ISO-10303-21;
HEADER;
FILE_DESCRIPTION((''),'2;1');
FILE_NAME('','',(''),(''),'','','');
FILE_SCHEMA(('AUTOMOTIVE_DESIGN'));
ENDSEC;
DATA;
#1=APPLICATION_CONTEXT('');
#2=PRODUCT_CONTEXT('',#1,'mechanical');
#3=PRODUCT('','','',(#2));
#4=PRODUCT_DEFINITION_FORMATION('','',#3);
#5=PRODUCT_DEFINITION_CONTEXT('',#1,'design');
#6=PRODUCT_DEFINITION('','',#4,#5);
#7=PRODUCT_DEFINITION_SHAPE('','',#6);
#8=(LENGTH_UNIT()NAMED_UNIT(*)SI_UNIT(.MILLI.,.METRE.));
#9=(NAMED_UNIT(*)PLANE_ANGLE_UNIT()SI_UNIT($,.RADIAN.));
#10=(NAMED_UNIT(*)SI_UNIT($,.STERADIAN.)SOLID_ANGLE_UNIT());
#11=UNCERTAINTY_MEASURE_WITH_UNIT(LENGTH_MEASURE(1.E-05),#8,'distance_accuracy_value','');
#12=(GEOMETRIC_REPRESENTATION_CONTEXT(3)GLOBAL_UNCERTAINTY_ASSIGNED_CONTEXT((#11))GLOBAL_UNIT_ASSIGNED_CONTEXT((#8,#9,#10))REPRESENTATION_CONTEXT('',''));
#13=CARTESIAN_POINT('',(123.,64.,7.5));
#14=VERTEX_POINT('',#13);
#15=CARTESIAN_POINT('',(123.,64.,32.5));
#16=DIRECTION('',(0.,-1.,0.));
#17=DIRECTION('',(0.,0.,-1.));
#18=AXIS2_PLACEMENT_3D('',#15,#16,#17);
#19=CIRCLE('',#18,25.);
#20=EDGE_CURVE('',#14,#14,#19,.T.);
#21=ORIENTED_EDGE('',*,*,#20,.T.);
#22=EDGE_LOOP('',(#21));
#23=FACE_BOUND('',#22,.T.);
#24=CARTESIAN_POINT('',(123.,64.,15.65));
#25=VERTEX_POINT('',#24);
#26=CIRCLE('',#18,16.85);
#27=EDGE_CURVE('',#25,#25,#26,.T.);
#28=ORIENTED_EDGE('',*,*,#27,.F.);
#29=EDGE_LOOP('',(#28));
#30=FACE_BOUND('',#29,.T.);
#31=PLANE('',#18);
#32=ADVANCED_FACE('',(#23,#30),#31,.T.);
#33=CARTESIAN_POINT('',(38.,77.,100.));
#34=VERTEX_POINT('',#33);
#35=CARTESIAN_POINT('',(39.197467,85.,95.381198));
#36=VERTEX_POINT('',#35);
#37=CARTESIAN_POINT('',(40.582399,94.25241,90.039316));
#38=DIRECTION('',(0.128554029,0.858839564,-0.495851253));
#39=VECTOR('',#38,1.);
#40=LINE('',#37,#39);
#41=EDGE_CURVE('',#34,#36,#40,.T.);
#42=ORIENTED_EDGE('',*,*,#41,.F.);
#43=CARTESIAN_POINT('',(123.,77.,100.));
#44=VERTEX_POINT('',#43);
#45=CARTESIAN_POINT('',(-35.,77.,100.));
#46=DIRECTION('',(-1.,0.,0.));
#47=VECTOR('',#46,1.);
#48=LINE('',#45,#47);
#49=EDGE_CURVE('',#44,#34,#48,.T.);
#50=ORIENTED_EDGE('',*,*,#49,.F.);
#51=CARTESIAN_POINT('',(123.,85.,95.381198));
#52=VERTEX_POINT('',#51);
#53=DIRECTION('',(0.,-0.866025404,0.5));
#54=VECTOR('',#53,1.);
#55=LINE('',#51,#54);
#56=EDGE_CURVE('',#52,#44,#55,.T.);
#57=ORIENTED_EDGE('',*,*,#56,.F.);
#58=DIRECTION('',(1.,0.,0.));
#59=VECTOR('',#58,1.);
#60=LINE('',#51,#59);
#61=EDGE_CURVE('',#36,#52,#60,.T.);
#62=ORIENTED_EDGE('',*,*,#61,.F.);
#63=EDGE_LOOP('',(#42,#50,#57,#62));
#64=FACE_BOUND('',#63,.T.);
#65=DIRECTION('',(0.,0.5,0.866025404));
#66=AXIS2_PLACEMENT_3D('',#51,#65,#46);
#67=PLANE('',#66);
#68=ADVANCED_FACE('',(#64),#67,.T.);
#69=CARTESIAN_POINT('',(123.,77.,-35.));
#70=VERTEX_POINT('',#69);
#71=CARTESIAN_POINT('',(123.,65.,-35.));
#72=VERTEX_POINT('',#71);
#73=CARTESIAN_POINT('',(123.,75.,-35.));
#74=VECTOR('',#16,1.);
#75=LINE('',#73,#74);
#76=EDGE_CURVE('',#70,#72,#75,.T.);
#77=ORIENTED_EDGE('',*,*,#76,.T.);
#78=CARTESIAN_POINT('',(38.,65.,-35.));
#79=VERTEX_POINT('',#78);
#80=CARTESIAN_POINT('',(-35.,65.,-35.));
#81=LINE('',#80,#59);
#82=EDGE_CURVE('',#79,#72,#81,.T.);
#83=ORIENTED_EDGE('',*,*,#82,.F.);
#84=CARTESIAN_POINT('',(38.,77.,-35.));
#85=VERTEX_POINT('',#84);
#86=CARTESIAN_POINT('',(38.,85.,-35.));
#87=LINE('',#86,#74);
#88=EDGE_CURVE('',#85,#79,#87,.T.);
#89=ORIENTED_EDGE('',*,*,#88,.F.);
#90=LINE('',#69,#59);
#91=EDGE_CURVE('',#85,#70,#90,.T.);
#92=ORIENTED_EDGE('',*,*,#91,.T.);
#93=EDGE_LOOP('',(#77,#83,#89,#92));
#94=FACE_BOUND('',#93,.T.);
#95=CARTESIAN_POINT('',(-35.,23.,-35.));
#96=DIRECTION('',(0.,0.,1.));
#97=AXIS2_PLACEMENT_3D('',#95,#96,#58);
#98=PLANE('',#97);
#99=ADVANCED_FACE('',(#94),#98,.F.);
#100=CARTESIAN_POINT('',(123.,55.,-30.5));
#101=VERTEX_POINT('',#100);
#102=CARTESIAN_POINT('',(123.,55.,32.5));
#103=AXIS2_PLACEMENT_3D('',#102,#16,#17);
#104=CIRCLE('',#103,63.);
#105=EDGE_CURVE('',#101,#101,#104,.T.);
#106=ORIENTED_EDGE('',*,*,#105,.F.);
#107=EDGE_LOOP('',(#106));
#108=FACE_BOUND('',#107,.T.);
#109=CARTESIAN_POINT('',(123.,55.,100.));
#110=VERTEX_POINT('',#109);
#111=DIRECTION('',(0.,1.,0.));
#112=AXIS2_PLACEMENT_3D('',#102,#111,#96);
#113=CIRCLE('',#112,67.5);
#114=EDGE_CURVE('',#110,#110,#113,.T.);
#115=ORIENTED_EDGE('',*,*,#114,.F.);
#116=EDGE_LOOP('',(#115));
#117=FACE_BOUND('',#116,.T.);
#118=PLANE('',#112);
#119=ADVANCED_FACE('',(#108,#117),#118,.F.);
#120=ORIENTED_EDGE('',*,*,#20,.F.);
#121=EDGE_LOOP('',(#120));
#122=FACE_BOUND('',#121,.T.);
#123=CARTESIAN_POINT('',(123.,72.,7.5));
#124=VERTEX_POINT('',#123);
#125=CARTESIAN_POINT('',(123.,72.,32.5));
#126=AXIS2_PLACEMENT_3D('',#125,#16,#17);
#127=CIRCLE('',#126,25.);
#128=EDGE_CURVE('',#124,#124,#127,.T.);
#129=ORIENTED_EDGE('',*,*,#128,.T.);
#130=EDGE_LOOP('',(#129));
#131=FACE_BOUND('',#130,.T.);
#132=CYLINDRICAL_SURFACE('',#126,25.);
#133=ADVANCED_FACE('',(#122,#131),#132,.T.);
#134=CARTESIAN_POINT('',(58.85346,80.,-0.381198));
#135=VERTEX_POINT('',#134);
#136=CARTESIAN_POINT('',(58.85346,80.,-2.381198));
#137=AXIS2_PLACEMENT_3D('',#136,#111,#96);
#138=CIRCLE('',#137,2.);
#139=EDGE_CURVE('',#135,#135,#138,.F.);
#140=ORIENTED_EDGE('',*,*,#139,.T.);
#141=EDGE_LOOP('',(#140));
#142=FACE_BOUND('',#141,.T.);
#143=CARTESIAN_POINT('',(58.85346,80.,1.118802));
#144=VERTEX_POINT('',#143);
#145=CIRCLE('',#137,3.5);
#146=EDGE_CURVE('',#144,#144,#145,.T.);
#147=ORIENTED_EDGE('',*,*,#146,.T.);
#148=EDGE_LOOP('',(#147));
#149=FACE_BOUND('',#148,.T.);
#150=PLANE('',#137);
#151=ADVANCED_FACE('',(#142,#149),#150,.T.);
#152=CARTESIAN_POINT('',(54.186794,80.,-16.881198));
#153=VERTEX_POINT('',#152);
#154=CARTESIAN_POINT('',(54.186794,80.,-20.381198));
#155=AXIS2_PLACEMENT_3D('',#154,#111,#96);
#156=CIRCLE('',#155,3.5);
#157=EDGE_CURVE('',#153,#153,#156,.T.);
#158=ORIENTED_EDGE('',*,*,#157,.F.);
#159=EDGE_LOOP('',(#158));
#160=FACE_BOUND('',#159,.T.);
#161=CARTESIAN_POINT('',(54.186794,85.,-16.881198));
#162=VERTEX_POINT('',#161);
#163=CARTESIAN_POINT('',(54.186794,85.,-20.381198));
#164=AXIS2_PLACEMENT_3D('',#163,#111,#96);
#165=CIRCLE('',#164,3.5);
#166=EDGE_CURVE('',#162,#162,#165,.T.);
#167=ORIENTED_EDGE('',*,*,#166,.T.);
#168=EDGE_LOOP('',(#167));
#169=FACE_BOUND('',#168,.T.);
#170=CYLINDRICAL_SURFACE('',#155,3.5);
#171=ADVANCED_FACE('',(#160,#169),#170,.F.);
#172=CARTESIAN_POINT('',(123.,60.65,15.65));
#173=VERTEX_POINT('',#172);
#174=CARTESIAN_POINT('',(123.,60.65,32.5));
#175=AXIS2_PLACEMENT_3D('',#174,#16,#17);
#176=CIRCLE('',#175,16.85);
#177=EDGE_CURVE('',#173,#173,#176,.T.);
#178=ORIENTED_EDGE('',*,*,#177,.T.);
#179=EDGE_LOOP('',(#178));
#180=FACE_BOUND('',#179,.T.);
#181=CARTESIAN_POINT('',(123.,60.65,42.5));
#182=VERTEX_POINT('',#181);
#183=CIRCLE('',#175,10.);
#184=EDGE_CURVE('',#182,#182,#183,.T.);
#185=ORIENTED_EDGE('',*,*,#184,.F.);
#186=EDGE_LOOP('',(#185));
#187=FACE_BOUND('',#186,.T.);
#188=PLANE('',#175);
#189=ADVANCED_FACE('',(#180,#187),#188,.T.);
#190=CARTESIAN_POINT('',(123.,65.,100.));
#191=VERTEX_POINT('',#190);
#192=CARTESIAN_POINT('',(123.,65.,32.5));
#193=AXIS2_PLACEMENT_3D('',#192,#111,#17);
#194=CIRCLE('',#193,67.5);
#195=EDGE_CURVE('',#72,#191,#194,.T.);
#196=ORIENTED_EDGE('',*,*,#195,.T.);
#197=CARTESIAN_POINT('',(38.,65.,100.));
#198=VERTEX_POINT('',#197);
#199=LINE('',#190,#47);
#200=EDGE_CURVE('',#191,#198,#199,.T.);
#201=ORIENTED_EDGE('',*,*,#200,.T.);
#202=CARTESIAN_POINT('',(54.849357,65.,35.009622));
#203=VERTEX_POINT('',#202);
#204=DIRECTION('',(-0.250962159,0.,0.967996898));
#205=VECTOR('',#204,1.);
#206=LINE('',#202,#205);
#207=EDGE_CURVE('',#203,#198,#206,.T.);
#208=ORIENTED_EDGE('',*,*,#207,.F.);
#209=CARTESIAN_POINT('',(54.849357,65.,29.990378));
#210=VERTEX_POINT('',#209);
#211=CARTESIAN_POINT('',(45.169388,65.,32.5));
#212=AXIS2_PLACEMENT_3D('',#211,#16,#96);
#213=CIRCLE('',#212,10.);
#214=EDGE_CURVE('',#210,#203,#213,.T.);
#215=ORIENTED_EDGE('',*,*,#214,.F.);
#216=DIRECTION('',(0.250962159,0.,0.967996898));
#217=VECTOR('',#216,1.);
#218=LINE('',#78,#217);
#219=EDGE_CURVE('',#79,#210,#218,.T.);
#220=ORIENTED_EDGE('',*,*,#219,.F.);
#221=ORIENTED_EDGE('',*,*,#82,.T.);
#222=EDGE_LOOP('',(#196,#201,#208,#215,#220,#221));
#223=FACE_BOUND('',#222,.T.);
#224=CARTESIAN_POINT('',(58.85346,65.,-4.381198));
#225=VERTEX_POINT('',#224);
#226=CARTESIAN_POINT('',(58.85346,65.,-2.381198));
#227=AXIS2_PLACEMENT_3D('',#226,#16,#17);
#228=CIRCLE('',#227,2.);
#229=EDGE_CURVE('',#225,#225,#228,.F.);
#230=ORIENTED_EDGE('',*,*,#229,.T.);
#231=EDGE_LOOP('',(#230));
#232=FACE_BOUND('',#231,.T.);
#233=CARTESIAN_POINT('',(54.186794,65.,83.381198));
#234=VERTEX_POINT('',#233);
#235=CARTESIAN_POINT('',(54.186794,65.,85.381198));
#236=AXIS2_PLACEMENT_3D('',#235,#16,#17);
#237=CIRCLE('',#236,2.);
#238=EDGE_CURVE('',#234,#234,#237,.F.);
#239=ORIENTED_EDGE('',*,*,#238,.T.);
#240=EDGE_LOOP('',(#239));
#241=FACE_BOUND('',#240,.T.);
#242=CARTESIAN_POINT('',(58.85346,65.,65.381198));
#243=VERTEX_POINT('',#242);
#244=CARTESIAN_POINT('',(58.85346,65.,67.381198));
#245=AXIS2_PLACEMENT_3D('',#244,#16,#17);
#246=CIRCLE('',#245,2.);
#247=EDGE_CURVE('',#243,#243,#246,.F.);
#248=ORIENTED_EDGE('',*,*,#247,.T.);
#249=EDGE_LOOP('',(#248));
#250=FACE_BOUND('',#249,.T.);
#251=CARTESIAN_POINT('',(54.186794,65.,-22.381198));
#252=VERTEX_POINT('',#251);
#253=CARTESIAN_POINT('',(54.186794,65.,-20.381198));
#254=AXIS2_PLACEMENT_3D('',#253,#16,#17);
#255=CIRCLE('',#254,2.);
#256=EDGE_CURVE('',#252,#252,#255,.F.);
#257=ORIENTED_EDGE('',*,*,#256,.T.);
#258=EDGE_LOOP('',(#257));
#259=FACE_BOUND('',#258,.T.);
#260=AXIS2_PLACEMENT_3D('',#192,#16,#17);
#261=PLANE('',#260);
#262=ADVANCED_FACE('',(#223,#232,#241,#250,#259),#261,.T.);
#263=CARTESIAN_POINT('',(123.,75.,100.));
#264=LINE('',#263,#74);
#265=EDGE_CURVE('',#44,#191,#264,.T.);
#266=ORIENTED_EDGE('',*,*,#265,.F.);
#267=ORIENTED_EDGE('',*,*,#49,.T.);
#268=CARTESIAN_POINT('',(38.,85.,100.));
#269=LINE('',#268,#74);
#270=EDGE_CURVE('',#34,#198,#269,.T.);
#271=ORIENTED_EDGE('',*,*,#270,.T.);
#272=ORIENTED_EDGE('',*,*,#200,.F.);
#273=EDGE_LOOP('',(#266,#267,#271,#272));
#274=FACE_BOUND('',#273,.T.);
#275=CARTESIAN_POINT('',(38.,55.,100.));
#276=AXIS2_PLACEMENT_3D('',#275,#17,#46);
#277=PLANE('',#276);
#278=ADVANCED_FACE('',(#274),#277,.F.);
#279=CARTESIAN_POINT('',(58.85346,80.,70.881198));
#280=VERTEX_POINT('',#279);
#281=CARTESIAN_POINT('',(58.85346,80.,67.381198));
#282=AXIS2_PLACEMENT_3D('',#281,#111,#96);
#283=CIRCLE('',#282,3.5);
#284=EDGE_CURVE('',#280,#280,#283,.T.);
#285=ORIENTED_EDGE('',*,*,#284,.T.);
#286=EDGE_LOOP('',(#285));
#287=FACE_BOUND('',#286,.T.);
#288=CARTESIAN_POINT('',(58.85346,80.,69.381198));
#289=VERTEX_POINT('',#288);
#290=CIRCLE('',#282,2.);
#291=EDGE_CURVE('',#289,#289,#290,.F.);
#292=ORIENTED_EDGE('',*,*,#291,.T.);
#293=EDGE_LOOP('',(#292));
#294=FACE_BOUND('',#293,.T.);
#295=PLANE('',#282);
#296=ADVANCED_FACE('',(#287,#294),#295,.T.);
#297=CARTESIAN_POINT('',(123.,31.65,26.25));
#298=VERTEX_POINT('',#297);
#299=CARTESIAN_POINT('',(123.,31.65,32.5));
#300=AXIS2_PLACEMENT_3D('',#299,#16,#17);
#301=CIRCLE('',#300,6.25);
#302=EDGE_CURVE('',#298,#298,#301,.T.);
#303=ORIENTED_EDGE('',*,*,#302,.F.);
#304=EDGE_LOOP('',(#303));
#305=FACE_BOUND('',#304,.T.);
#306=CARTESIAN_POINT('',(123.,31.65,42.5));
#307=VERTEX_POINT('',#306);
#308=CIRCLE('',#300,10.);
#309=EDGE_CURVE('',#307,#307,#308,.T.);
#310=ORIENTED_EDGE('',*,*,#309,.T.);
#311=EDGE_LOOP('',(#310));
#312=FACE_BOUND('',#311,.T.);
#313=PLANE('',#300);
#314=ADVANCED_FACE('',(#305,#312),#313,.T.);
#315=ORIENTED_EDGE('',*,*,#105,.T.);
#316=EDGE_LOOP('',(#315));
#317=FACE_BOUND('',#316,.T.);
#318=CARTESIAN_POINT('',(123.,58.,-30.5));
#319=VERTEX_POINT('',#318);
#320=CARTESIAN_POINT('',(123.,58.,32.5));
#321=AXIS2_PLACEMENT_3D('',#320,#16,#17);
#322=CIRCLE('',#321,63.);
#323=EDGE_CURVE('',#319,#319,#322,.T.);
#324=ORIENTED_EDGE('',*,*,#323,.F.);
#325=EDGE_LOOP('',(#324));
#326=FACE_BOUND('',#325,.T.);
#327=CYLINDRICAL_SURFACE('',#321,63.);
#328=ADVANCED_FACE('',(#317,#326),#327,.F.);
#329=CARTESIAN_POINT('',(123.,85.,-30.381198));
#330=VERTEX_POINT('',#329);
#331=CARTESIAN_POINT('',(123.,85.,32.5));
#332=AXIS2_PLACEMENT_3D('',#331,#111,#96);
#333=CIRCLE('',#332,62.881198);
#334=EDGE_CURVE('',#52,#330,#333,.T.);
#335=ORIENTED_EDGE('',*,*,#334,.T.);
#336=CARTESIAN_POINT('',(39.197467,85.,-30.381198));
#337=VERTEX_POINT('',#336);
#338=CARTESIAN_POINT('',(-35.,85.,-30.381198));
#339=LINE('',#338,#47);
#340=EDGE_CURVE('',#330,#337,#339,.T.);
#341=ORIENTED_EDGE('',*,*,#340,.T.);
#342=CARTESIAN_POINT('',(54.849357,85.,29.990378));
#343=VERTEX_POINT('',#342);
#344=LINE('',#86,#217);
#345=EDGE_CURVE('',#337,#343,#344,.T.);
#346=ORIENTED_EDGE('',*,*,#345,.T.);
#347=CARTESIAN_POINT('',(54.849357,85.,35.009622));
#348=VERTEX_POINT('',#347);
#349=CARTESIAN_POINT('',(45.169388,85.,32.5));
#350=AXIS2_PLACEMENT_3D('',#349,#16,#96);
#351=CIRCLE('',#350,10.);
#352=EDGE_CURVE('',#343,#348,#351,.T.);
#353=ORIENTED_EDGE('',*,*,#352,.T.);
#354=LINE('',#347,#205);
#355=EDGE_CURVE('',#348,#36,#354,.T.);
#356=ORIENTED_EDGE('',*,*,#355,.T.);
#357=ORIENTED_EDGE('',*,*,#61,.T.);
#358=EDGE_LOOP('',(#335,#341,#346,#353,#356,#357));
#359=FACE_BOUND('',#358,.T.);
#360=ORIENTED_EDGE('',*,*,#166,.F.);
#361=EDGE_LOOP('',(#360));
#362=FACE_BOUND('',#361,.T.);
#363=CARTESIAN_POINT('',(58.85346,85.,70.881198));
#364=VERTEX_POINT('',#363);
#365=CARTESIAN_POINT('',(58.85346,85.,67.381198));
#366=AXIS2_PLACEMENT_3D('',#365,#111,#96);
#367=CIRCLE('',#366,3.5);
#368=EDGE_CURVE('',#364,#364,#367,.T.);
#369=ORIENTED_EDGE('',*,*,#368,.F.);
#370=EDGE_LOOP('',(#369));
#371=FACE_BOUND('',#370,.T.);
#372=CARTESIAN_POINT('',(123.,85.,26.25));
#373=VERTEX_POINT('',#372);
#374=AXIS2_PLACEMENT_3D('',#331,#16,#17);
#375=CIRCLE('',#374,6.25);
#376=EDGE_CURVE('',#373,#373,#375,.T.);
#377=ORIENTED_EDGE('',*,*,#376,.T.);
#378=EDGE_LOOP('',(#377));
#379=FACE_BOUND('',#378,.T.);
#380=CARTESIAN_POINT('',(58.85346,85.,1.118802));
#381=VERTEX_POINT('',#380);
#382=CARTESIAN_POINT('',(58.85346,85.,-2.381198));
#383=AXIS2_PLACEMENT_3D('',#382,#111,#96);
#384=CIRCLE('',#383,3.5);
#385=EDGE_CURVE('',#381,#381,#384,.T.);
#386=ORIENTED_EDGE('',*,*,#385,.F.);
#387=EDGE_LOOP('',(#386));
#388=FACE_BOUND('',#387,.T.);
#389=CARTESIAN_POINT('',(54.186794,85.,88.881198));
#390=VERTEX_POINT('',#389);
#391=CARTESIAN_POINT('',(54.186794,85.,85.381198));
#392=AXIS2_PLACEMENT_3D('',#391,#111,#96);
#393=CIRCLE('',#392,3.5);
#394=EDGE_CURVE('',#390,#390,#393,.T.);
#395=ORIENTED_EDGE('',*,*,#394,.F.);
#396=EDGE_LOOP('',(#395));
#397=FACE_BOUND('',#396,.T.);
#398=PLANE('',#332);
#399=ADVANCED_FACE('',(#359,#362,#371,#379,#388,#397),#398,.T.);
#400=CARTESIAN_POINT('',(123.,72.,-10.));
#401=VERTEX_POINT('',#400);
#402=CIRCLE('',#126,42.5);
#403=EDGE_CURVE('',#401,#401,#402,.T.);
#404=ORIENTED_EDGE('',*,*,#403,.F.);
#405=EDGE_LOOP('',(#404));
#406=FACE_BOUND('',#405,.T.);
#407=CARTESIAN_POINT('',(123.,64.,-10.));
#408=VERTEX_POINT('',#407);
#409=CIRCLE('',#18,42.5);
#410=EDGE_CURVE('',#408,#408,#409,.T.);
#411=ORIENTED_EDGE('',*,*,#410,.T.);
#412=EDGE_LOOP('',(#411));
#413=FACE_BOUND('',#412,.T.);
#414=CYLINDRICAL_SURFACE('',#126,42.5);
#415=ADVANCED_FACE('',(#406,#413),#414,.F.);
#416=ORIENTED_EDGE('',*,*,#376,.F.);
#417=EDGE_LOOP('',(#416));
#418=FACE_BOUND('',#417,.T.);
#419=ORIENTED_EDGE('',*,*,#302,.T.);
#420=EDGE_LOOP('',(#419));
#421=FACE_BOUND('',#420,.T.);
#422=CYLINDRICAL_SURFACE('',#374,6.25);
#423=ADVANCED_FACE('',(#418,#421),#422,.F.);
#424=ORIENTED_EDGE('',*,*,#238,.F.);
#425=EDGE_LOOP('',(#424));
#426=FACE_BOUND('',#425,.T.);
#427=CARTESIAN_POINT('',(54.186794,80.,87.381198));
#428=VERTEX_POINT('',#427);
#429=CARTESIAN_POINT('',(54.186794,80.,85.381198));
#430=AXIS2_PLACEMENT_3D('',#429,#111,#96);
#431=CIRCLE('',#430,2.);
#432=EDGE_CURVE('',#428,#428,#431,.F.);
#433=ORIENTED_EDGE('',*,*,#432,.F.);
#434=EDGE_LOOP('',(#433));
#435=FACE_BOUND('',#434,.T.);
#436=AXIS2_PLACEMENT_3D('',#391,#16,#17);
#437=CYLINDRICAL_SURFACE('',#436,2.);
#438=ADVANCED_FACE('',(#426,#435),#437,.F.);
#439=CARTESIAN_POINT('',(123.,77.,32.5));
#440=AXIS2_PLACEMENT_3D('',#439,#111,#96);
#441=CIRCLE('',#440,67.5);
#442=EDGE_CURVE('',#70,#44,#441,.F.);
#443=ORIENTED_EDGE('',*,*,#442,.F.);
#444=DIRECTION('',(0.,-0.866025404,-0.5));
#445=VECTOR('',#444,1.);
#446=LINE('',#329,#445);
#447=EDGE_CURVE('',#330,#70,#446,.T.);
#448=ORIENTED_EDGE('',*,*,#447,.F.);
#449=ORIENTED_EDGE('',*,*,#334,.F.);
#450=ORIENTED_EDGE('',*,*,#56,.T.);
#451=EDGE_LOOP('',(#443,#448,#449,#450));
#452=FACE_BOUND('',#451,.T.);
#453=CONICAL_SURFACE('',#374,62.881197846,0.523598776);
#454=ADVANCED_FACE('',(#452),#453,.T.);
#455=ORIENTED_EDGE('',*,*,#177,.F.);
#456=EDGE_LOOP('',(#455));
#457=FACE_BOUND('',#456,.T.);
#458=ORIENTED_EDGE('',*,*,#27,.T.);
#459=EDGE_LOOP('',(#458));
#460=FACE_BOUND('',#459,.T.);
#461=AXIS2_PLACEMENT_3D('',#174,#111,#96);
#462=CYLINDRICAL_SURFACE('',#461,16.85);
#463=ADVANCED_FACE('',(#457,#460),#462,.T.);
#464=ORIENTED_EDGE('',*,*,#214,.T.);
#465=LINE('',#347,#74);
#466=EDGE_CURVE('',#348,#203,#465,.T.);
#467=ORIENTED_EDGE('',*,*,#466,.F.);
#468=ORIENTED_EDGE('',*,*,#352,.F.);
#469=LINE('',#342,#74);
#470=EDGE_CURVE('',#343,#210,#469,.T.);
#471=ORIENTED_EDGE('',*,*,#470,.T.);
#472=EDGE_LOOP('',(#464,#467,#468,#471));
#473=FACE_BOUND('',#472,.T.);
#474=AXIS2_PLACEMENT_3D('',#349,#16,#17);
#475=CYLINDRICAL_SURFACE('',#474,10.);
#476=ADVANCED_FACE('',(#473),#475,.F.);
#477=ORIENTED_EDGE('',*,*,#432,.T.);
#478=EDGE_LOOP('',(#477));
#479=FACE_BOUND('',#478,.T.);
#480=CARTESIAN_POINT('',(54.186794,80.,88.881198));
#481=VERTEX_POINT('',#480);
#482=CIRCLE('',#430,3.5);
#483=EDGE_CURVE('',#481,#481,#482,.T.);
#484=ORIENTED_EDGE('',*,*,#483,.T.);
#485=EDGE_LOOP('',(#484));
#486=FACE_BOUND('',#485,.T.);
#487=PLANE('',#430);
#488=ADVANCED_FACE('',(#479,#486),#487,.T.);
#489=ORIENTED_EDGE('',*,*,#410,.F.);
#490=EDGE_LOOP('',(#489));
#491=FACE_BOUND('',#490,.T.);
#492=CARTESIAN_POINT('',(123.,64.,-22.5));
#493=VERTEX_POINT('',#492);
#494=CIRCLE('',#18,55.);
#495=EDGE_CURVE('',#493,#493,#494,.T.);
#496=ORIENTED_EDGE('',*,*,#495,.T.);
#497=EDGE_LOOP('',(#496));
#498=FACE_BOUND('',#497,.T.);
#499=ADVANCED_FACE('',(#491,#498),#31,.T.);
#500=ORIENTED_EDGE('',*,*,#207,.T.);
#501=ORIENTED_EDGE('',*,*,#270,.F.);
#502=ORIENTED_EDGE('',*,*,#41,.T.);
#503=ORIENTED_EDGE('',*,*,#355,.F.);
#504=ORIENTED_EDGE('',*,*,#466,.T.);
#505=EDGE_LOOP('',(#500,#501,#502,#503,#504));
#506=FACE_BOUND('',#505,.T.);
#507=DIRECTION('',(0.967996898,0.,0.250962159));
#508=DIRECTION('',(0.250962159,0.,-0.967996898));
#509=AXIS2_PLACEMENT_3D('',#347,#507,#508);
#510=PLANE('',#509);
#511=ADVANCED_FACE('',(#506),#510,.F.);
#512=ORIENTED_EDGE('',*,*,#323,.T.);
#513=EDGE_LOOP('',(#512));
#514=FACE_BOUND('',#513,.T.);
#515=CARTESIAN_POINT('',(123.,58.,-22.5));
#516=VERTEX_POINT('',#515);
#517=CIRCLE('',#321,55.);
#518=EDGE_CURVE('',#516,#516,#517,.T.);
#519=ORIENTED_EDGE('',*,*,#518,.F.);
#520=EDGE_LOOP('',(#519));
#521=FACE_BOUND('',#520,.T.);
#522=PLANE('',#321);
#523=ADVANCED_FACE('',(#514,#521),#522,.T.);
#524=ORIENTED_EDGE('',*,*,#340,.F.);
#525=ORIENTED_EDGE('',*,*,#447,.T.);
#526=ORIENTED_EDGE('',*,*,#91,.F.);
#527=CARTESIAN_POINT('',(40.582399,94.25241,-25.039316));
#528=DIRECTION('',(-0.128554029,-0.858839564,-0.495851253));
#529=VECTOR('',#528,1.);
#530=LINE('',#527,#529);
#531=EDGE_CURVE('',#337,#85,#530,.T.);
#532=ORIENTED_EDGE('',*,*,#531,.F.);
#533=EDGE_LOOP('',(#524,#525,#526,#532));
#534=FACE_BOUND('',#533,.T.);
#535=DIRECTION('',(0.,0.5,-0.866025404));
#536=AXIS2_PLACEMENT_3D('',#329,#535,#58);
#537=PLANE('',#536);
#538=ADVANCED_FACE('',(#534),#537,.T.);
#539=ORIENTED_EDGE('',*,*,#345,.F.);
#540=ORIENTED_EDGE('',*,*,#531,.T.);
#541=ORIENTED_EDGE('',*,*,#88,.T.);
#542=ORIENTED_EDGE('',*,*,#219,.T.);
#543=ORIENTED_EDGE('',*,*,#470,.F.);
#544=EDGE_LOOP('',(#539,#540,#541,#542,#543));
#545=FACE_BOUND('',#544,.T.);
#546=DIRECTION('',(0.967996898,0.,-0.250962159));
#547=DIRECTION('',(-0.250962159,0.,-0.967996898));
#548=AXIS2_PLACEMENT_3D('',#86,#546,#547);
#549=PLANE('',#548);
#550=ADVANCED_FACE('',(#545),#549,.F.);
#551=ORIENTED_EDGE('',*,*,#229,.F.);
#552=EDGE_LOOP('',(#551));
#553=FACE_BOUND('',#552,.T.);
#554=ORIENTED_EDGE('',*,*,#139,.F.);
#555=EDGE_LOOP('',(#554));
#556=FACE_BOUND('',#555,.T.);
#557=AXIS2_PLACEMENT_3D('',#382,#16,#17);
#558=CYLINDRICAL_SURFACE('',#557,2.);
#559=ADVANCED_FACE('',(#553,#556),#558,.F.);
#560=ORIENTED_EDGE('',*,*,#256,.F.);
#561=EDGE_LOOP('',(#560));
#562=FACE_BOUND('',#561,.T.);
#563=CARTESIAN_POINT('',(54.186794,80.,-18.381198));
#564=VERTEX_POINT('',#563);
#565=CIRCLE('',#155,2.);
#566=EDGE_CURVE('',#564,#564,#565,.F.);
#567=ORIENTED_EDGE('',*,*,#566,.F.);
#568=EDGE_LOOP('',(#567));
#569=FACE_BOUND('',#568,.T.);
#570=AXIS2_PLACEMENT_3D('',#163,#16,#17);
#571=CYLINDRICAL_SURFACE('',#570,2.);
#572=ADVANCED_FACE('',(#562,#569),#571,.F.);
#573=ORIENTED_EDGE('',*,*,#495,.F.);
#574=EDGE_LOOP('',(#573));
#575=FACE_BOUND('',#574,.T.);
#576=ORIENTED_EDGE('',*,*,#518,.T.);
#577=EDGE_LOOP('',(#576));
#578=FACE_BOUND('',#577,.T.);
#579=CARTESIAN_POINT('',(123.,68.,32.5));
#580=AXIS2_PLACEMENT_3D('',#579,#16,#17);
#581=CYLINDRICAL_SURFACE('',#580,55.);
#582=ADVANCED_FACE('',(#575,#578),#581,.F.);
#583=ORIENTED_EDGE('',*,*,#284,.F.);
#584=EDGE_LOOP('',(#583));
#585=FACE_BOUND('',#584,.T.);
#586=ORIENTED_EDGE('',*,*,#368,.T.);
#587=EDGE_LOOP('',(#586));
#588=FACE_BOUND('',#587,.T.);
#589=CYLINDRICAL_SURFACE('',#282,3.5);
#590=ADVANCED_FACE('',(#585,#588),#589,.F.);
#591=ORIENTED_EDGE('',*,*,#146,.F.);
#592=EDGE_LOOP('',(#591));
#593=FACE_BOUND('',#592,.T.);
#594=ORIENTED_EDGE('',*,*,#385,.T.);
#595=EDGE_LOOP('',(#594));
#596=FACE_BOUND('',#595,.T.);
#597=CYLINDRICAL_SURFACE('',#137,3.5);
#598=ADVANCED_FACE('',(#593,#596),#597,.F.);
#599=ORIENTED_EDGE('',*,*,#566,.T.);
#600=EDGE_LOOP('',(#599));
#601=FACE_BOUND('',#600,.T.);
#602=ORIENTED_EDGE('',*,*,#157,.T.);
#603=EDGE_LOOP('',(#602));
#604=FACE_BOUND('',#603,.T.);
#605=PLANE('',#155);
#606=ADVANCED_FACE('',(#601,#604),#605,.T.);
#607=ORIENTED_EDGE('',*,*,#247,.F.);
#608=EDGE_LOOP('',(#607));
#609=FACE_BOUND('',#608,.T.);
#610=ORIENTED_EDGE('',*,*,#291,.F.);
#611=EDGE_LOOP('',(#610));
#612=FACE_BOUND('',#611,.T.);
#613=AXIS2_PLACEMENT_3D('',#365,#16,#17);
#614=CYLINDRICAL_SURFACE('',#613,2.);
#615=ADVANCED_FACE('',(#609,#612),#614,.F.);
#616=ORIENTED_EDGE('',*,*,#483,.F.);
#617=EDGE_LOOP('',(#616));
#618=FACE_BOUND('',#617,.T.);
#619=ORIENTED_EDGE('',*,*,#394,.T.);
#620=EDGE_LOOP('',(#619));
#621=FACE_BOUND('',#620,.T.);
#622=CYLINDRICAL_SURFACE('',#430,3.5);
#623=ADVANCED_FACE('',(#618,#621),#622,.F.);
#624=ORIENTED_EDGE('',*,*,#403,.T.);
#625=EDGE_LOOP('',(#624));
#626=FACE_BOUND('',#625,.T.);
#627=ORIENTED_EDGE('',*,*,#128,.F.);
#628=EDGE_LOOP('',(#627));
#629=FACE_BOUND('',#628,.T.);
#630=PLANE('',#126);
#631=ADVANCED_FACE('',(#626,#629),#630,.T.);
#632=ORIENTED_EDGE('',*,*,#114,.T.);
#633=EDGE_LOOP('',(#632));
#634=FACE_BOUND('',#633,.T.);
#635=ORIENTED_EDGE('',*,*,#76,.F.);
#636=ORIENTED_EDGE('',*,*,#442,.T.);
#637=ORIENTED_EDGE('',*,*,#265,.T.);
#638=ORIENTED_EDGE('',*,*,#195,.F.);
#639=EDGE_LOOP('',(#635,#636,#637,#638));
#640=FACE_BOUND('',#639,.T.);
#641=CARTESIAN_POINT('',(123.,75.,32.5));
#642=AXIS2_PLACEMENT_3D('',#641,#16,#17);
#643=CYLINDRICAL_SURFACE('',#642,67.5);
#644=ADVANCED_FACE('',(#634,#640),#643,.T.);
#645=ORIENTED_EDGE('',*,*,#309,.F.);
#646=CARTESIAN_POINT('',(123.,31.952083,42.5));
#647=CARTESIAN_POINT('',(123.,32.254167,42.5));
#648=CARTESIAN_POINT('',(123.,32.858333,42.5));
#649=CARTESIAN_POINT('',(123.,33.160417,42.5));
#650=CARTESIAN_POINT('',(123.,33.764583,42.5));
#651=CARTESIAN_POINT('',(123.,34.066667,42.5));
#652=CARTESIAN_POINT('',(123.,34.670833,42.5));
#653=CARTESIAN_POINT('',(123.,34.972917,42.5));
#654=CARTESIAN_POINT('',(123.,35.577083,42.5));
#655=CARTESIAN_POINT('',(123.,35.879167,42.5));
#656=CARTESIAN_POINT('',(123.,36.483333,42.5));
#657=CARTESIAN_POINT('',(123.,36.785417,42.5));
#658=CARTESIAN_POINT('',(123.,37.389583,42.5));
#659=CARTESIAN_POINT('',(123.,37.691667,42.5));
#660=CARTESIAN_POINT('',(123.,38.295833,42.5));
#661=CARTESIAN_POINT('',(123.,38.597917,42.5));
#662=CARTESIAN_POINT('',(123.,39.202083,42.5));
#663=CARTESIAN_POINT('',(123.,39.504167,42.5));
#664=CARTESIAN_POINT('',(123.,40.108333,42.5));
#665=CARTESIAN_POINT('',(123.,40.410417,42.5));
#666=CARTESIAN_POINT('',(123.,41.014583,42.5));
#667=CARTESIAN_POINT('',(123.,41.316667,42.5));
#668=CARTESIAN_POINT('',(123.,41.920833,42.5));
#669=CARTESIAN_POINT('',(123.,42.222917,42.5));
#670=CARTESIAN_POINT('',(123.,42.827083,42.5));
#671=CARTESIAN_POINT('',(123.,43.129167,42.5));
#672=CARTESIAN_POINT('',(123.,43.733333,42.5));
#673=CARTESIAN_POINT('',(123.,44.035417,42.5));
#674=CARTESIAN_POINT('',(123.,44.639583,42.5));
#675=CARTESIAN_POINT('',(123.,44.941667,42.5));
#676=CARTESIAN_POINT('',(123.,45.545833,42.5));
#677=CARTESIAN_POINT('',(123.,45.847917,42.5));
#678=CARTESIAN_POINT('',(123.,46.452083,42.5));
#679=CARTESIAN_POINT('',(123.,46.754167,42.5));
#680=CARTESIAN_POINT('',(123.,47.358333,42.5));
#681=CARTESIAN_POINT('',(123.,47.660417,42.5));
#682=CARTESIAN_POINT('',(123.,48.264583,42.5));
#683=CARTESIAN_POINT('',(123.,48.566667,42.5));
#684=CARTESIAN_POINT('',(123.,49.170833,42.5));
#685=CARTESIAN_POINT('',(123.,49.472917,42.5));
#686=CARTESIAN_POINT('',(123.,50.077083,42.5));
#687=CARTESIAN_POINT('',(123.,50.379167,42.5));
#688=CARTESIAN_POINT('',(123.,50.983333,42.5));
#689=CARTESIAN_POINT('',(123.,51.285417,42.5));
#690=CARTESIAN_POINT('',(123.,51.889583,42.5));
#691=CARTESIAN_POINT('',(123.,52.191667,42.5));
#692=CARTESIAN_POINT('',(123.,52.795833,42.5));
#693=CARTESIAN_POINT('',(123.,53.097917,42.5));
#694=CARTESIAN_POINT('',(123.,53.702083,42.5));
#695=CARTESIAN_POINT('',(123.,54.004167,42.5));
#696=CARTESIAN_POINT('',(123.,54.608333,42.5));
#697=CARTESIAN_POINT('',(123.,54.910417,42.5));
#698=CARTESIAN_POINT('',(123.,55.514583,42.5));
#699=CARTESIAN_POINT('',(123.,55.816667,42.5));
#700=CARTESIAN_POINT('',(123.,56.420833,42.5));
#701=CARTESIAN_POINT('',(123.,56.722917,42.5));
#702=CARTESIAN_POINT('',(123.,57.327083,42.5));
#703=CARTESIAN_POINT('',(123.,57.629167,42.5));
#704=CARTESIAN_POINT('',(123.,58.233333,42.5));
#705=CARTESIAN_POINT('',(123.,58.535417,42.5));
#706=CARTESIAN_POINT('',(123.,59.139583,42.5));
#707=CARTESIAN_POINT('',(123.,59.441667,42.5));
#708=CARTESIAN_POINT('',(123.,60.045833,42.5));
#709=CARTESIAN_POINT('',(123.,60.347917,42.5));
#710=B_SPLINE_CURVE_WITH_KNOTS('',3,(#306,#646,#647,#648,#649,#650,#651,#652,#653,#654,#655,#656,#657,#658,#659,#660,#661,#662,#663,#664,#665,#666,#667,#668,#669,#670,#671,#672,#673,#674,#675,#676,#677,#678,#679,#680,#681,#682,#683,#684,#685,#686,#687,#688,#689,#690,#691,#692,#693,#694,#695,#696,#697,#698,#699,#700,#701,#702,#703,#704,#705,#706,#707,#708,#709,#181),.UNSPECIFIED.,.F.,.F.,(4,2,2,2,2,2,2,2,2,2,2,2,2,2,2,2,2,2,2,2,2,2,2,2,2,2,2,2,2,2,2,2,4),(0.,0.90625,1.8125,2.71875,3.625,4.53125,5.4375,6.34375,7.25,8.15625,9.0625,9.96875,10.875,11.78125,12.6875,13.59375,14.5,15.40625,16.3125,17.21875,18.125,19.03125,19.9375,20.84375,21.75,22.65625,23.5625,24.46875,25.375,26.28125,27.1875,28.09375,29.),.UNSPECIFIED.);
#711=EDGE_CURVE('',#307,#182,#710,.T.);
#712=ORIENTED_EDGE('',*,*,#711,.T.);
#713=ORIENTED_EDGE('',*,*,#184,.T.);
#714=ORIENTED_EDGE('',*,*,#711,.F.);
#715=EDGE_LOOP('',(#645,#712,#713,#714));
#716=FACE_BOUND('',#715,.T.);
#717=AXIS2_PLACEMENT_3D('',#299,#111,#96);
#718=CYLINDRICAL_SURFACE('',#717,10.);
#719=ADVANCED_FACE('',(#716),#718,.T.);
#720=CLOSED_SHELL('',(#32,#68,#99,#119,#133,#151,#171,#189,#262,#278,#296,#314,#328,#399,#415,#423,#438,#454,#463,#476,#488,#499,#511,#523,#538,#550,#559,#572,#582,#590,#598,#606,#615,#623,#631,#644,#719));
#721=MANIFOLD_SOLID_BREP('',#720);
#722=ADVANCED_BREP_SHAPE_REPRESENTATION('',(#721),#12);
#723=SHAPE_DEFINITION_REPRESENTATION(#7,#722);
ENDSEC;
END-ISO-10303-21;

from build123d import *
from OCP.BRepFilletAPI import BRepFilletAPI_MakeChamfer

# Parameters (mm, degrees)
SALIENTE_EXTRUIR2_DEPTH     = 23
CROQUIS7_R                  = 20
CORTAR_EXTRUIR1_DEPTH       = 16
CROQUIS8_R                  = 10.25
CORTAR_EXTRUIR2_DEPTH       = 65.838641661
SALIENTE_EXTRUIR3_START     = 32
CROQUIS9_R                  = 20
CROQUIS9_R_2                = 3.075
CROQUIS9_R_3                = 10.25
SALIENTE_EXTRUIR3_DEPTH     = 32
CORTAR_EXTRUIR3_START       = -7
CROQUIS10_R                 = 20
CORTAR_EXTRUIR3_DEPTH       = 112.607172695
SALIENTE_EXTRUIR4_START     = 20
CROQUIS11_R                 = 3.075
CROQUIS11_R_2               = 20
SALIENTE_EXTRUIR4_DEPTH     = 20
CROQUIS12_R                 = 63
CORTAR_EXTRUIR4_DEPTH       = 3
CROQUIS13_R                 = 55
CORTAR_EXTRUIR5_DEPTH       = 10
SALIENTE_EXTRUIR5_START     = 10
SALIENTE_EXTRUIR5_DEPTH     = 10
CHAFL_N1_SIZE               = 8
CHAFL_N1_SIZE2              = 4.618802154
CROQUIS15_R                 = 6.25
CORTAR_EXTRUIR6_DEPTH       = 226.641862251
CORTAR_EXTRUIR7_REACH       = 233.334
CROQUIS17_R                 = 1.5
CORTAR_EXTRUIR9_REACH       = 225.907
CROQUIS19_R                 = 1.5
CORTAR_EXTRUIR10_START      = -50
CORTAR_EXTRUIR10_DEPTH      = 50
CORTAR_EXTRUIR11_DEPTH      = 50
CROQUIS22_R                 = 3
CORTAR_EXTRUIR12_DEPTH      = 3
CROQUIS23_R                 = 3
CORTAR_EXTRUIR13_DEPTH      = 3
CROQUIS25_R                 = 2.5
CORTAR_EXTRUIR15_DEPTH      = 30
CROQUIS24_R                 = 2.5
CORTAR_EXTRUIR14_DEPTH      = 30
CROQUIS26_R                 = 2
CORTAR_EXTRUIR16_DEPTH      = 223.070371729
CROQUIS27_R                 = 3.5
CORTAR_EXTRUIR17_DEPTH      = 5
CORTAR_EXTRUIR18_DEPTH      = 3.25
CORTAR_EXTRUIR20_DEPTH      = 223.070371729
CORTAR_EXTRUIR20_DEPTH_BACK = 10
CROQUIS31_R                 = 2.5
CORTAR_EXTRUIR21_DEPTH      = 217.079267863
CROQUIS32_R                 = 4.5
CORTAR_EXTRUIR22_DEPTH      = 5
SALIENTE_EXTRUIR6_START     = 4
CROQUIS33_R                 = 55
CROQUIS33_R_2               = 6.25
SALIENTE_EXTRUIR6_DEPTH     = 4
SALIENTE_EXTRUIR7_START     = 3.35
CROQUIS34_R                 = 16.85
CROQUIS34_R_2               = 6.25
SALIENTE_EXTRUIR7_DEPTH     = 3.35
SALIENTE_EXTRUIR8_START     = 29
CROQUIS35_R                 = 10
CROQUIS35_R_2               = 6.25
SALIENTE_EXTRUIR8_DEPTH     = 29
CORTAR_EXTRUIR23_DEPTH      = 218.721088781
CROQUIS37_R                 = 42.5
CROQUIS37_R_2               = 25
CORTAR_EXTRUIR24_DEPTH      = 8


with BuildPart() as part:
    # Croquis2 → Saliente-Extruir2 (new body)
    with BuildSketch(Plane(origin=(0, 0, 0), x_dir=(1, 0, 0), z_dir=(0, 1, 0))):
        with BuildLine():
            Line((32.725022686, -35), (-35, -35))
            Line((-35, -35), (-35, 35))
            Line((-35, 35), (38, 35))
            Line((38, 35), (52.182846342, -19.705264464))
            ThreePointArc((52.182846342, -19.705264464), (38.869791903, -20.762030653), (32.5, -32.5))
            ThreePointArc((32.5, -32.5), (32.556369153, -33.755053307), (32.725022686, -35))
        make_face()
    extrude(amount=SALIENTE_EXTRUIR2_DEPTH)

    # Croquis7 → Cortar-Extruir1 (cut)
    with BuildSketch(Plane(origin=(0, 23, 0), x_dir=(1, 0, 0), z_dir=(0, 1, 0))):
        with Locations(Location((1.5, -1.5, 0), (0, 0, 270))):
            Circle(CROQUIS7_R)
    extrude(amount=-CORTAR_EXTRUIR1_DEPTH, mode=Mode.SUBTRACT)

    # Croquis8 → Cortar-Extruir2 (cut, through all)
    with BuildSketch(Plane(origin=(0, 7, 0), x_dir=(1, 0, 0), z_dir=(0, 1, 0))):
        with Locations(Location((1.5, -1.5, 0), (0, 0, 270))):
            Circle(CROQUIS8_R)
    extrude(amount=-CORTAR_EXTRUIR2_DEPTH, mode=Mode.SUBTRACT)

    # Croquis9 → Saliente-Extruir3 (add)
    with BuildSketch(Plane(origin=(0, 23, 0), x_dir=(1, 0, 0), z_dir=(0, 1, 0)).offset(SALIENTE_EXTRUIR3_START)):
        with BuildLine():
            Line((-35, 35), (-35, -100))
            Line((-35, -100), (38, -100))
            Line((38, -100), (54.849357366, -35.009621588))
            ThreePointArc((54.849357366, -35.009621588), (55.169388384, -32.5), (54.849357366, -29.990378412))
            Line((54.849357366, -29.990378412), (38, 35))
            Line((38, 35), (-35, 35))
        make_face()
        with Locations(Location((1.5, -1.5, 0), (0, 0, 270))):
            Circle(CROQUIS9_R, mode=Mode.SUBTRACT)
        with Locations(Location((46.5, -32.5, 0), (0, 0, 270))):
            Circle(CROQUIS9_R_2, mode=Mode.SUBTRACT)
        with Locations(Location((1.5, -63.5, 0), (0, 0, 90))):
            Circle(CROQUIS9_R_3, mode=Mode.SUBTRACT)
    extrude(amount=-SALIENTE_EXTRUIR3_DEPTH)

    # Croquis10 → Cortar-Extruir3 (cut, through all)
    with BuildSketch(Plane.XZ.offset(-23).offset(CORTAR_EXTRUIR3_START)):
        with Locations(Location((1.5, 63.5, 0), (0, 0, 90))):
            Circle(CROQUIS10_R)
    extrude(amount=-CORTAR_EXTRUIR3_DEPTH, mode=Mode.SUBTRACT)

    # Croquis11 → Saliente-Extruir4 (add)
    with BuildSketch(Plane(origin=(0, 55, 0), x_dir=(1, 0, 0), z_dir=(0, 1, 0)).offset(SALIENTE_EXTRUIR4_START)):
        with BuildLine():
            Line((123, 35), (-35, 35))
            Line((-35, 35), (-35, -100))
            Line((-35, -100), (123, -100))
            ThreePointArc((123, -100), (190.5, -32.5), (123, 35))
        make_face()
        with Locations(Location((46.5, -32.5, 0), (0, 0, 270))):
            Circle(CROQUIS11_R, mode=Mode.SUBTRACT)
        with Locations(Location((1.5, -63.5, 0), (0, 0, 270))):
            Circle(CROQUIS11_R_2, mode=Mode.SUBTRACT)
        with Locations(Location((1.5, -1.5, 0), (0, 0, 270))):
            Circle(CROQUIS11_R_2, mode=Mode.SUBTRACT)
    extrude(amount=-SALIENTE_EXTRUIR4_DEPTH)

    # Croquis12 → Cortar-Extruir4 (cut)
    with BuildSketch(Plane.XZ.offset(-55)):
        with Locations(Location((123, 32.5, 0), (0, 0, 270))):
            Circle(CROQUIS12_R)
    extrude(amount=-CORTAR_EXTRUIR4_DEPTH, mode=Mode.SUBTRACT)

    # Croquis13 → Cortar-Extruir5 (cut)
    with BuildSketch(Plane.XZ.offset(-58)):
        with Locations(Location((123, 32.5, 0), (0, 0, 270))):
            Circle(CROQUIS13_R)
    extrude(amount=-CORTAR_EXTRUIR5_DEPTH, mode=Mode.SUBTRACT)

    # Croquis14 → Saliente-Extruir5 (add)
    with BuildSketch(Plane(origin=(0, 75, 0), x_dir=(1, 0, 0), z_dir=(0, 1, 0)).offset(SALIENTE_EXTRUIR5_START)):
        with BuildLine():
            Line((-35, -100), (123, -100))
            ThreePointArc((123, -100), (190.5, -32.5), (123, 35))
            Line((123, 35), (-35, 35))
            Line((-35, 35), (-35, -100))
        make_face()
    extrude(amount=-SALIENTE_EXTRUIR5_DEPTH)

    # Chaflán1: one chamfer whose edges measure the first distance from different faces: ONE call of the kernel's chamfer builder (chamfer() names one face for all edges)
    chafl_n1_edges_1 = [part.edges().sort_by_distance(p)[0] for p in [
        (190.5, 85, 32.5),
    ]]
    chafl_n1_side_1 = [part.faces().sort_by_distance(p)[0] for p in [
        (190.5, 70, 32.5),
    ]]
    chafl_n1_edges_2 = [part.edges().sort_by_distance(p)[0] for p in [
        (44, 85, -35),
    ]]
    chafl_n1_side_2 = [part.faces().sort_by_distance(p)[0] for p in [
        (24.509708738, 50.509708738, -35),
    ]]
    chafl_n1_edges_3 = [part.edges().sort_by_distance(p)[0] for p in [
        (44, 85, 100),
    ]]
    chafl_n1_side_3 = [part.faces().sort_by_distance(p)[0] for p in [
        (29.969474279, 59.765969474, 100),
    ]]
    chafl_n1 = BRepFilletAPI_MakeChamfer(part.part.solid().wrapped)
    for e in chafl_n1_edges_1:
        chafl_n1.Add(CHAFL_N1_SIZE, CHAFL_N1_SIZE2, e.wrapped, chafl_n1_side_1[0].wrapped)  # the first distance lies on this face
    for e in chafl_n1_edges_2:
        chafl_n1.Add(CHAFL_N1_SIZE, CHAFL_N1_SIZE2, e.wrapped, chafl_n1_side_2[0].wrapped)  # the first distance lies on this face
    for e in chafl_n1_edges_3:
        chafl_n1.Add(CHAFL_N1_SIZE, CHAFL_N1_SIZE2, e.wrapped, chafl_n1_side_3[0].wrapped)  # the first distance lies on this face
    add(Compound.cast(chafl_n1.Shape()), mode=Mode.REPLACE)

    # Croquis15 → Cortar-Extruir6 (cut, through all)
    with BuildSketch(Plane.XZ.offset(-68)):
        with Locations(Location((123, 32.5, 0), (0, 0, 270))):
            Circle(CROQUIS15_R)
    extrude(amount=-CORTAR_EXTRUIR6_DEPTH, mode=Mode.SUBTRACT)

    # Croquis17 → Cortar-Extruir7 (cut, up to next)
    with BuildSketch(Plane.XZ, mode=Mode.PRIVATE) as cortar_extruir7_sk1:
        with Locations(Location((16.5, 1.5, 0), (0, 0, 270))):
            Circle(CROQUIS17_R)
    cortar_extruir7_tool1 = extrude(cortar_extruir7_sk1.sketch, amount=-CORTAR_EXTRUIR7_REACH, mode=Mode.PRIVATE) & part.part
    # Croquis17 → Cortar-Extruir7 (cut, up to next)
    with BuildSketch(Plane.XZ, mode=Mode.PRIVATE) as cortar_extruir7_sk2:
        with Locations(Location((-6, -11.490381057, 0), (0, 0, 270))):
            Circle(CROQUIS17_R)
    cortar_extruir7_tool2 = extrude(cortar_extruir7_sk2.sketch, amount=-CORTAR_EXTRUIR7_REACH, mode=Mode.PRIVATE) & part.part
    # Croquis17 → Cortar-Extruir7 (cut, up to next)
    with BuildSketch(Plane.XZ, mode=Mode.PRIVATE) as cortar_extruir7_sk3:
        with Locations(Location((-6, 14.490381057, 0), (0, 0, 270))):
            Circle(CROQUIS17_R)
    cortar_extruir7_tool3 = extrude(cortar_extruir7_sk3.sketch, amount=-CORTAR_EXTRUIR7_REACH, mode=Mode.PRIVATE) & part.part
    # Croquis17 → Cortar-Extruir7 (cut, up to next)
    with BuildSketch(Plane.XZ, mode=Mode.PRIVATE) as cortar_extruir7_sk4:
        with Locations(Location((13.624355653, 8.5, 0), (0, 0, 270))):
            Circle(CROQUIS17_R)
    cortar_extruir7_tool4 = extrude(cortar_extruir7_sk4.sketch, amount=-CORTAR_EXTRUIR7_REACH, mode=Mode.PRIVATE) & part.part
    # Croquis17 → Cortar-Extruir7 (cut, up to next)
    with BuildSketch(Plane.XZ, mode=Mode.PRIVATE) as cortar_extruir7_sk5:
        with Locations(Location((1.5, -12.5, 0), (0, 0, 270))):
            Circle(CROQUIS17_R)
    cortar_extruir7_tool5 = extrude(cortar_extruir7_sk5.sketch, amount=-CORTAR_EXTRUIR7_REACH, mode=Mode.PRIVATE) & part.part
    # Croquis17 → Cortar-Extruir7 (cut, up to next)
    with BuildSketch(Plane.XZ, mode=Mode.PRIVATE) as cortar_extruir7_sk6:
        with Locations(Location((-10.624355653, 8.5, 0), (0, 0, 270))):
            Circle(CROQUIS17_R)
    cortar_extruir7_tool6 = extrude(cortar_extruir7_sk6.sketch, amount=-CORTAR_EXTRUIR7_REACH, mode=Mode.PRIVATE) & part.part
    add(cortar_extruir7_tool1.solids().sort_by_distance((16.5, 0, 1.5))[0], mode=Mode.SUBTRACT)
    add(cortar_extruir7_tool2.solids().sort_by_distance((-6, 0, -11.490381))[0], mode=Mode.SUBTRACT)
    add(cortar_extruir7_tool3.solids().sort_by_distance((-6, 0, 14.490381))[0], mode=Mode.SUBTRACT)
    add(cortar_extruir7_tool4.solids().sort_by_distance((13.624356, 0, 8.5))[0], mode=Mode.SUBTRACT)
    add(cortar_extruir7_tool5.solids().sort_by_distance((1.5, 0, -12.5))[0], mode=Mode.SUBTRACT)
    add(cortar_extruir7_tool6.solids().sort_by_distance((-10.624356, 0, 8.5))[0], mode=Mode.SUBTRACT)

    # Croquis19 → Cortar-Extruir9 (cut, up to next)
    with BuildSketch(Plane.XZ.offset(-23), mode=Mode.PRIVATE) as cortar_extruir9_sk1:
        with Locations(Location((16.5, 63.5, 0), (0, 0, 270))):
            Circle(CROQUIS19_R)
    cortar_extruir9_tool1 = extrude(cortar_extruir9_sk1.sketch, amount=-CORTAR_EXTRUIR9_REACH, mode=Mode.PRIVATE) & part.part
    # Croquis19 → Cortar-Extruir9 (cut, up to next)
    with BuildSketch(Plane.XZ.offset(-23), mode=Mode.PRIVATE) as cortar_extruir9_sk2:
        with Locations(Location((-6, 50.509618943, 0), (0, 0, 270))):
            Circle(CROQUIS19_R)
    cortar_extruir9_tool2 = extrude(cortar_extruir9_sk2.sketch, amount=-CORTAR_EXTRUIR9_REACH, mode=Mode.PRIVATE) & part.part
    # Croquis19 → Cortar-Extruir9 (cut, up to next)
    with BuildSketch(Plane.XZ.offset(-23), mode=Mode.PRIVATE) as cortar_extruir9_sk3:
        with Locations(Location((-6, 76.490381057, 0), (0, 0, 270))):
            Circle(CROQUIS19_R)
    cortar_extruir9_tool3 = extrude(cortar_extruir9_sk3.sketch, amount=-CORTAR_EXTRUIR9_REACH, mode=Mode.PRIVATE) & part.part
    # Croquis19 → Cortar-Extruir9 (cut, up to next)
    with BuildSketch(Plane.XZ.offset(-23), mode=Mode.PRIVATE) as cortar_extruir9_sk4:
        with Locations(Location((13.624355653, 70.5, 0), (0, 0, 270))):
            Circle(CROQUIS19_R)
    cortar_extruir9_tool4 = extrude(cortar_extruir9_sk4.sketch, amount=-CORTAR_EXTRUIR9_REACH, mode=Mode.PRIVATE) & part.part
    # Croquis19 → Cortar-Extruir9 (cut, up to next)
    with BuildSketch(Plane.XZ.offset(-23), mode=Mode.PRIVATE) as cortar_extruir9_sk5:
        with Locations(Location((1.5, 49.5, 0), (0, 0, 270))):
            Circle(CROQUIS19_R)
    cortar_extruir9_tool5 = extrude(cortar_extruir9_sk5.sketch, amount=-CORTAR_EXTRUIR9_REACH, mode=Mode.PRIVATE) & part.part
    # Croquis19 → Cortar-Extruir9 (cut, up to next)
    with BuildSketch(Plane.XZ.offset(-23), mode=Mode.PRIVATE) as cortar_extruir9_sk6:
        with Locations(Location((-10.624355653, 70.5, 0), (0, 0, 270))):
            Circle(CROQUIS19_R)
    cortar_extruir9_tool6 = extrude(cortar_extruir9_sk6.sketch, amount=-CORTAR_EXTRUIR9_REACH, mode=Mode.PRIVATE) & part.part
    add(cortar_extruir9_tool1.solids().sort_by_distance((16.5, 23, 63.5))[0], mode=Mode.SUBTRACT)
    add(cortar_extruir9_tool2.solids().sort_by_distance((-6, 23, 50.509619))[0], mode=Mode.SUBTRACT)
    add(cortar_extruir9_tool3.solids().sort_by_distance((-6, 23, 76.490381))[0], mode=Mode.SUBTRACT)
    add(cortar_extruir9_tool4.solids().sort_by_distance((13.624356, 23, 70.5))[0], mode=Mode.SUBTRACT)
    add(cortar_extruir9_tool5.solids().sort_by_distance((1.5, 23, 49.5))[0], mode=Mode.SUBTRACT)
    add(cortar_extruir9_tool6.solids().sort_by_distance((-10.624356, 23, 70.5))[0], mode=Mode.SUBTRACT)

    # Croquis20 → Cortar-Extruir10 (cut)
    with BuildSketch(Plane.XZ.offset(CORTAR_EXTRUIR10_START)):
        with BuildLine():
            Line((42.3656995, 5.747113524), (39.773106907, -4.252886476))
            ThreePointArc((39.773106907, -4.252886476), (38.705054743, -5.872620854), (36.869116213, -6.5))
            Line((36.869116213, -6.5), (19.83030278, -6.5))
            ThreePointArc((19.83030278, -6.5), (21.5, 1.5), (19.83030278, 9.5))
            Line((19.83030278, 9.5), (39.461708805, 9.5))
            ThreePointArc((39.461708805, 9.5), (41.834329659, 8.33593853), (42.3656995, 5.747113524))
        make_face()
    extrude(amount=CORTAR_EXTRUIR10_DEPTH, mode=Mode.SUBTRACT)

    # Croquis21 → Cortar-Extruir11 (cut)
    with BuildSketch(Plane.XZ.offset(-23)):
        with BuildLine():
            Line((39.461708805, 55.5), (19.83030278, 55.5))
            ThreePointArc((19.83030278, 55.5), (21.5, 63.5), (19.83030278, 71.5))
            Line((19.83030278, 71.5), (36.869116213, 71.5))
            ThreePointArc((36.869116213, 71.5), (38.705054743, 70.872620854), (39.773106907, 69.252886476))
            Line((39.773106907, 69.252886476), (42.3656995, 59.252886476))
            ThreePointArc((42.3656995, 59.252886476), (41.834329659, 56.66406147), (39.461708805, 55.5))
        make_face()
    extrude(amount=-CORTAR_EXTRUIR11_DEPTH, mode=Mode.SUBTRACT)

    # Croquis22 → Cortar-Extruir12 (cut)
    with BuildSketch(Plane.XZ):
        with Locations(Location((-6, 14.490381057, 0), (0, 0, 270))):
            Circle(CROQUIS22_R)
        with Locations(Location((-10.624355653, 8.5, 0), (0, 0, 270))):
            Circle(CROQUIS22_R)
        with Locations(Location((-6, -11.490381057, 0), (0, 0, 270))):
            Circle(CROQUIS22_R)
        with Locations(Location((1.5, -12.5, 0), (0, 0, 270))):
            Circle(CROQUIS22_R)
        with Locations(Location((16.5, 1.5, 0), (0, 0, 270))):
            Circle(CROQUIS22_R)
        with Locations(Location((13.624355653, 8.5, 0), (0, 0, 270))):
            Circle(CROQUIS22_R)
    extrude(amount=-CORTAR_EXTRUIR12_DEPTH, mode=Mode.SUBTRACT)

    # Croquis23 → Cortar-Extruir13 (cut)
    with BuildSketch(Plane.XZ.offset(-23)):
        with Locations(Location((-6, 76.490381057, 0), (0, 0, 270))):
            Circle(CROQUIS23_R)
        with Locations(Location((-10.624355653, 70.5, 0), (0, 0, 270))):
            Circle(CROQUIS23_R)
        with Locations(Location((-6, 50.509618943, 0), (0, 0, 270))):
            Circle(CROQUIS23_R)
        with Locations(Location((1.5, 49.5, 0), (0, 0, 270))):
            Circle(CROQUIS23_R)
        with Locations(Location((16.5, 63.5, 0), (0, 0, 270))):
            Circle(CROQUIS23_R)
        with Locations(Location((13.624355653, 70.5, 0), (0, 0, 270))):
            Circle(CROQUIS23_R)
    extrude(amount=-CORTAR_EXTRUIR13_DEPTH, mode=Mode.SUBTRACT)

    # Croquis25 → Cortar-Extruir15 (cut)
    with BuildSketch(Plane.XZ.offset(-23)):
        with Locations(Location((-28.75, 63.5, 0), (0, 0, 270))):
            Circle(CROQUIS25_R)
        with Locations(Location((29, 47, 0), (0, 0, 270))):
            Circle(CROQUIS25_R)
    extrude(amount=-CORTAR_EXTRUIR15_DEPTH, mode=Mode.SUBTRACT)

    # Croquis24 → Cortar-Extruir14 (cut)
    with BuildSketch(Plane.XZ):
        with Locations(Location((-28.75, 1.5, 0), (0, 0, 270))):
            Circle(CROQUIS24_R)
        with Locations(Location((25, 25, 0), (0, 0, 270))):
            Circle(CROQUIS24_R)
    extrude(amount=-CORTAR_EXTRUIR14_DEPTH, mode=Mode.SUBTRACT)

    # Croquis26 → Cortar-Extruir16 (cut, through all)
    with BuildSketch(Plane.XZ.offset(-55)):
        with Locations(Location((54.186793756, 85.381197846, 0), (0, 0, 270))):
            Circle(CROQUIS26_R)
        with Locations(Location((58.853460423, 67.381197846, 0), (0, 0, 270))):
            Circle(CROQUIS26_R)
        with Locations(Location((58.853460423, -2.381197846, 0), (0, 0, 90))):
            Circle(CROQUIS26_R)
        with Locations(Location((54.186793756, -20.381197846, 0), (0, 0, 90))):
            Circle(CROQUIS26_R)
    extrude(amount=-CORTAR_EXTRUIR16_DEPTH, mode=Mode.SUBTRACT)

    # Croquis27 → Cortar-Extruir17 (cut)
    with BuildSketch(Plane(origin=(0, 85, 0), x_dir=(1, 0, 0), z_dir=(0, 1, 0))):
        with Locations(Location((54.186793756, 20.381197846, 0), (0, 0, 270))):
            Circle(CROQUIS27_R)
        with Locations(Location((58.853460423, 2.381197846, 0), (0, 0, 270))):
            Circle(CROQUIS27_R)
        with Locations(Location((58.853460423, -67.381197846, 0), (0, 0, 270))):
            Circle(CROQUIS27_R)
        with Locations(Location((54.186793756, -85.381197846, 0), (0, 0, 270))):
            Circle(CROQUIS27_R)
    extrude(amount=-CORTAR_EXTRUIR17_DEPTH, mode=Mode.SUBTRACT)

    # Croquis28 → Cortar-Extruir18 (cut)
    with BuildSketch(Plane.XZ.offset(-55)):
        Polygon((55.222779206, 81.385253968), (58.165375392, 84.280415625), (57.129389942, 88.276359503), (53.150808306, 89.377141725), (50.20821212, 86.481980068), (51.24419757, 82.48603619), align=None)
        Polygon((59.889445873, 63.385253968), (62.832042059, 66.280415625), (61.796056609, 70.276359503), (57.817474973, 71.377141725), (54.874878787, 68.481980068), (55.910864237, 64.48603619), align=None)
        Polygon((59.889445873, 1.614746032), (55.910864237, 0.51396381), (54.874878787, -3.481980068), (57.817474973, -6.377141725), (61.796056609, -5.276359503), (62.832042059, -1.280415625), align=None)
        Polygon((55.222779206, -16.385253968), (51.24419757, -17.48603619), (50.20821212, -21.481980068), (53.150808306, -24.377141725), (57.129389942, -23.276359503), (58.165375392, -19.280415625), align=None)
    extrude(amount=-CORTAR_EXTRUIR18_DEPTH, mode=Mode.SUBTRACT)

    # Croquis30 → Cortar-Extruir20 (cut, two sides: drawn at the far end of the back side and taken through both)
    with BuildSketch(Plane.XZ.offset(-55).offset(-CORTAR_EXTRUIR20_DEPTH_BACK)):
        with BuildLine():
            Line((123, 100), (-35, 100))
            Line((-35, 100), (-35, -35))
            Line((-35, -35), (123, -35))
            ThreePointArc((123, -35), (55.5, 32.5), (123, 100))
        make_face()
    extrude(amount=CORTAR_EXTRUIR20_DEPTH + CORTAR_EXTRUIR20_DEPTH_BACK, mode=Mode.SUBTRACT)

    # Croquis31 → Cortar-Extruir21 (cut, through all)
    with BuildSketch(Plane.XZ.offset(-65)):
        with Locations(Location((-22, 87, 0), (0, 0, 270))):
            Circle(CROQUIS31_R)
        with Locations(Location((25, 87, 0), (0, 0, 270))):
            Circle(CROQUIS31_R)
        with Locations(Location((25, -22, 0), (0, 0, 90))):
            Circle(CROQUIS31_R)
        with Locations(Location((-22, -22, 0), (0, 0, 90))):
            Circle(CROQUIS31_R)
    extrude(amount=-CORTAR_EXTRUIR21_DEPTH, mode=Mode.SUBTRACT)

    # Croquis32 → Cortar-Extruir22 (cut)
    with BuildSketch(Plane(origin=(0, 85, 0), x_dir=(1, 0, 0), z_dir=(0, 1, 0))):
        with Locations(Location((-22, 22, 0), (0, 0, 270))):
            Circle(CROQUIS32_R)
        with Locations(Location((25, 22, 0), (0, 0, 270))):
            Circle(CROQUIS32_R)
        with Locations(Location((-22, -87, 0), (0, 0, 270))):
            Circle(CROQUIS32_R)
        with Locations(Location((25, -87, 0), (0, 0, 270))):
            Circle(CROQUIS32_R)
    extrude(amount=-CORTAR_EXTRUIR22_DEPTH, mode=Mode.SUBTRACT)

    # Croquis33 → Saliente-Extruir6 (add)
    with BuildSketch(Plane.XZ.offset(-68).offset(SALIENTE_EXTRUIR6_START)):
        with Locations(Location((123, 32.5, 0), (0, 0, 270))):
            Circle(CROQUIS33_R)
        with Locations(Location((123, 32.5, 0), (0, 0, 270))):
            Circle(CROQUIS33_R_2, mode=Mode.SUBTRACT)
    extrude(amount=-SALIENTE_EXTRUIR6_DEPTH)

    # Croquis34 → Saliente-Extruir7 (add)
    with BuildSketch(Plane.XZ.offset(-64).offset(SALIENTE_EXTRUIR7_START)):
        with Locations(Location((123, 32.5, 0), (0, 0, 270))):
            Circle(CROQUIS34_R)
        with Locations(Location((123, 32.5, 0), (0, 0, 270))):
            Circle(CROQUIS34_R_2, mode=Mode.SUBTRACT)
    extrude(amount=-SALIENTE_EXTRUIR7_DEPTH)

    # Croquis35 → Saliente-Extruir8 (add)
    with BuildSketch(Plane.XZ.offset(-60.65).offset(SALIENTE_EXTRUIR8_START)):
        with Locations(Location((123, 32.5, 0), (0, 0, 90))):
            Circle(CROQUIS35_R)
        with Locations(Location((123, 32.5, 0), (0, 0, 270))):
            Circle(CROQUIS35_R_2, mode=Mode.SUBTRACT)
    extrude(amount=-SALIENTE_EXTRUIR8_DEPTH)

    # Croquis36 → Cortar-Extruir23 (cut, through all)
    with BuildSketch(Plane.XZ.offset(-65)):
        with BuildLine():
            Line((38, -35), (54.849357366, 29.990378412))
            ThreePointArc((54.849357366, 29.990378412), (55.169388384, 32.5), (54.849357366, 35.009621588))
            Line((54.849357366, 35.009621588), (38, 100))
            Line((38, 100), (-35, 100))
            Line((-35, 100), (-35, -35))
            Line((-35, -35), (38, -35))
        make_face()
    extrude(amount=-CORTAR_EXTRUIR23_DEPTH, mode=Mode.SUBTRACT)

    # Croquis37 → Cortar-Extruir24 (cut)
    with BuildSketch(Plane.XZ.offset(-64)):
        with Locations(Location((123, 32.5, 0), (0, 0, 270))):
            Circle(CROQUIS37_R)
        with Locations(Location((123, 32.5, 0), (0, 0, 270))):
            Circle(CROQUIS37_R_2, mode=Mode.SUBTRACT)
    extrude(amount=-CORTAR_EXTRUIR24_DEPTH, mode=Mode.SUBTRACT)


solid = part.part
